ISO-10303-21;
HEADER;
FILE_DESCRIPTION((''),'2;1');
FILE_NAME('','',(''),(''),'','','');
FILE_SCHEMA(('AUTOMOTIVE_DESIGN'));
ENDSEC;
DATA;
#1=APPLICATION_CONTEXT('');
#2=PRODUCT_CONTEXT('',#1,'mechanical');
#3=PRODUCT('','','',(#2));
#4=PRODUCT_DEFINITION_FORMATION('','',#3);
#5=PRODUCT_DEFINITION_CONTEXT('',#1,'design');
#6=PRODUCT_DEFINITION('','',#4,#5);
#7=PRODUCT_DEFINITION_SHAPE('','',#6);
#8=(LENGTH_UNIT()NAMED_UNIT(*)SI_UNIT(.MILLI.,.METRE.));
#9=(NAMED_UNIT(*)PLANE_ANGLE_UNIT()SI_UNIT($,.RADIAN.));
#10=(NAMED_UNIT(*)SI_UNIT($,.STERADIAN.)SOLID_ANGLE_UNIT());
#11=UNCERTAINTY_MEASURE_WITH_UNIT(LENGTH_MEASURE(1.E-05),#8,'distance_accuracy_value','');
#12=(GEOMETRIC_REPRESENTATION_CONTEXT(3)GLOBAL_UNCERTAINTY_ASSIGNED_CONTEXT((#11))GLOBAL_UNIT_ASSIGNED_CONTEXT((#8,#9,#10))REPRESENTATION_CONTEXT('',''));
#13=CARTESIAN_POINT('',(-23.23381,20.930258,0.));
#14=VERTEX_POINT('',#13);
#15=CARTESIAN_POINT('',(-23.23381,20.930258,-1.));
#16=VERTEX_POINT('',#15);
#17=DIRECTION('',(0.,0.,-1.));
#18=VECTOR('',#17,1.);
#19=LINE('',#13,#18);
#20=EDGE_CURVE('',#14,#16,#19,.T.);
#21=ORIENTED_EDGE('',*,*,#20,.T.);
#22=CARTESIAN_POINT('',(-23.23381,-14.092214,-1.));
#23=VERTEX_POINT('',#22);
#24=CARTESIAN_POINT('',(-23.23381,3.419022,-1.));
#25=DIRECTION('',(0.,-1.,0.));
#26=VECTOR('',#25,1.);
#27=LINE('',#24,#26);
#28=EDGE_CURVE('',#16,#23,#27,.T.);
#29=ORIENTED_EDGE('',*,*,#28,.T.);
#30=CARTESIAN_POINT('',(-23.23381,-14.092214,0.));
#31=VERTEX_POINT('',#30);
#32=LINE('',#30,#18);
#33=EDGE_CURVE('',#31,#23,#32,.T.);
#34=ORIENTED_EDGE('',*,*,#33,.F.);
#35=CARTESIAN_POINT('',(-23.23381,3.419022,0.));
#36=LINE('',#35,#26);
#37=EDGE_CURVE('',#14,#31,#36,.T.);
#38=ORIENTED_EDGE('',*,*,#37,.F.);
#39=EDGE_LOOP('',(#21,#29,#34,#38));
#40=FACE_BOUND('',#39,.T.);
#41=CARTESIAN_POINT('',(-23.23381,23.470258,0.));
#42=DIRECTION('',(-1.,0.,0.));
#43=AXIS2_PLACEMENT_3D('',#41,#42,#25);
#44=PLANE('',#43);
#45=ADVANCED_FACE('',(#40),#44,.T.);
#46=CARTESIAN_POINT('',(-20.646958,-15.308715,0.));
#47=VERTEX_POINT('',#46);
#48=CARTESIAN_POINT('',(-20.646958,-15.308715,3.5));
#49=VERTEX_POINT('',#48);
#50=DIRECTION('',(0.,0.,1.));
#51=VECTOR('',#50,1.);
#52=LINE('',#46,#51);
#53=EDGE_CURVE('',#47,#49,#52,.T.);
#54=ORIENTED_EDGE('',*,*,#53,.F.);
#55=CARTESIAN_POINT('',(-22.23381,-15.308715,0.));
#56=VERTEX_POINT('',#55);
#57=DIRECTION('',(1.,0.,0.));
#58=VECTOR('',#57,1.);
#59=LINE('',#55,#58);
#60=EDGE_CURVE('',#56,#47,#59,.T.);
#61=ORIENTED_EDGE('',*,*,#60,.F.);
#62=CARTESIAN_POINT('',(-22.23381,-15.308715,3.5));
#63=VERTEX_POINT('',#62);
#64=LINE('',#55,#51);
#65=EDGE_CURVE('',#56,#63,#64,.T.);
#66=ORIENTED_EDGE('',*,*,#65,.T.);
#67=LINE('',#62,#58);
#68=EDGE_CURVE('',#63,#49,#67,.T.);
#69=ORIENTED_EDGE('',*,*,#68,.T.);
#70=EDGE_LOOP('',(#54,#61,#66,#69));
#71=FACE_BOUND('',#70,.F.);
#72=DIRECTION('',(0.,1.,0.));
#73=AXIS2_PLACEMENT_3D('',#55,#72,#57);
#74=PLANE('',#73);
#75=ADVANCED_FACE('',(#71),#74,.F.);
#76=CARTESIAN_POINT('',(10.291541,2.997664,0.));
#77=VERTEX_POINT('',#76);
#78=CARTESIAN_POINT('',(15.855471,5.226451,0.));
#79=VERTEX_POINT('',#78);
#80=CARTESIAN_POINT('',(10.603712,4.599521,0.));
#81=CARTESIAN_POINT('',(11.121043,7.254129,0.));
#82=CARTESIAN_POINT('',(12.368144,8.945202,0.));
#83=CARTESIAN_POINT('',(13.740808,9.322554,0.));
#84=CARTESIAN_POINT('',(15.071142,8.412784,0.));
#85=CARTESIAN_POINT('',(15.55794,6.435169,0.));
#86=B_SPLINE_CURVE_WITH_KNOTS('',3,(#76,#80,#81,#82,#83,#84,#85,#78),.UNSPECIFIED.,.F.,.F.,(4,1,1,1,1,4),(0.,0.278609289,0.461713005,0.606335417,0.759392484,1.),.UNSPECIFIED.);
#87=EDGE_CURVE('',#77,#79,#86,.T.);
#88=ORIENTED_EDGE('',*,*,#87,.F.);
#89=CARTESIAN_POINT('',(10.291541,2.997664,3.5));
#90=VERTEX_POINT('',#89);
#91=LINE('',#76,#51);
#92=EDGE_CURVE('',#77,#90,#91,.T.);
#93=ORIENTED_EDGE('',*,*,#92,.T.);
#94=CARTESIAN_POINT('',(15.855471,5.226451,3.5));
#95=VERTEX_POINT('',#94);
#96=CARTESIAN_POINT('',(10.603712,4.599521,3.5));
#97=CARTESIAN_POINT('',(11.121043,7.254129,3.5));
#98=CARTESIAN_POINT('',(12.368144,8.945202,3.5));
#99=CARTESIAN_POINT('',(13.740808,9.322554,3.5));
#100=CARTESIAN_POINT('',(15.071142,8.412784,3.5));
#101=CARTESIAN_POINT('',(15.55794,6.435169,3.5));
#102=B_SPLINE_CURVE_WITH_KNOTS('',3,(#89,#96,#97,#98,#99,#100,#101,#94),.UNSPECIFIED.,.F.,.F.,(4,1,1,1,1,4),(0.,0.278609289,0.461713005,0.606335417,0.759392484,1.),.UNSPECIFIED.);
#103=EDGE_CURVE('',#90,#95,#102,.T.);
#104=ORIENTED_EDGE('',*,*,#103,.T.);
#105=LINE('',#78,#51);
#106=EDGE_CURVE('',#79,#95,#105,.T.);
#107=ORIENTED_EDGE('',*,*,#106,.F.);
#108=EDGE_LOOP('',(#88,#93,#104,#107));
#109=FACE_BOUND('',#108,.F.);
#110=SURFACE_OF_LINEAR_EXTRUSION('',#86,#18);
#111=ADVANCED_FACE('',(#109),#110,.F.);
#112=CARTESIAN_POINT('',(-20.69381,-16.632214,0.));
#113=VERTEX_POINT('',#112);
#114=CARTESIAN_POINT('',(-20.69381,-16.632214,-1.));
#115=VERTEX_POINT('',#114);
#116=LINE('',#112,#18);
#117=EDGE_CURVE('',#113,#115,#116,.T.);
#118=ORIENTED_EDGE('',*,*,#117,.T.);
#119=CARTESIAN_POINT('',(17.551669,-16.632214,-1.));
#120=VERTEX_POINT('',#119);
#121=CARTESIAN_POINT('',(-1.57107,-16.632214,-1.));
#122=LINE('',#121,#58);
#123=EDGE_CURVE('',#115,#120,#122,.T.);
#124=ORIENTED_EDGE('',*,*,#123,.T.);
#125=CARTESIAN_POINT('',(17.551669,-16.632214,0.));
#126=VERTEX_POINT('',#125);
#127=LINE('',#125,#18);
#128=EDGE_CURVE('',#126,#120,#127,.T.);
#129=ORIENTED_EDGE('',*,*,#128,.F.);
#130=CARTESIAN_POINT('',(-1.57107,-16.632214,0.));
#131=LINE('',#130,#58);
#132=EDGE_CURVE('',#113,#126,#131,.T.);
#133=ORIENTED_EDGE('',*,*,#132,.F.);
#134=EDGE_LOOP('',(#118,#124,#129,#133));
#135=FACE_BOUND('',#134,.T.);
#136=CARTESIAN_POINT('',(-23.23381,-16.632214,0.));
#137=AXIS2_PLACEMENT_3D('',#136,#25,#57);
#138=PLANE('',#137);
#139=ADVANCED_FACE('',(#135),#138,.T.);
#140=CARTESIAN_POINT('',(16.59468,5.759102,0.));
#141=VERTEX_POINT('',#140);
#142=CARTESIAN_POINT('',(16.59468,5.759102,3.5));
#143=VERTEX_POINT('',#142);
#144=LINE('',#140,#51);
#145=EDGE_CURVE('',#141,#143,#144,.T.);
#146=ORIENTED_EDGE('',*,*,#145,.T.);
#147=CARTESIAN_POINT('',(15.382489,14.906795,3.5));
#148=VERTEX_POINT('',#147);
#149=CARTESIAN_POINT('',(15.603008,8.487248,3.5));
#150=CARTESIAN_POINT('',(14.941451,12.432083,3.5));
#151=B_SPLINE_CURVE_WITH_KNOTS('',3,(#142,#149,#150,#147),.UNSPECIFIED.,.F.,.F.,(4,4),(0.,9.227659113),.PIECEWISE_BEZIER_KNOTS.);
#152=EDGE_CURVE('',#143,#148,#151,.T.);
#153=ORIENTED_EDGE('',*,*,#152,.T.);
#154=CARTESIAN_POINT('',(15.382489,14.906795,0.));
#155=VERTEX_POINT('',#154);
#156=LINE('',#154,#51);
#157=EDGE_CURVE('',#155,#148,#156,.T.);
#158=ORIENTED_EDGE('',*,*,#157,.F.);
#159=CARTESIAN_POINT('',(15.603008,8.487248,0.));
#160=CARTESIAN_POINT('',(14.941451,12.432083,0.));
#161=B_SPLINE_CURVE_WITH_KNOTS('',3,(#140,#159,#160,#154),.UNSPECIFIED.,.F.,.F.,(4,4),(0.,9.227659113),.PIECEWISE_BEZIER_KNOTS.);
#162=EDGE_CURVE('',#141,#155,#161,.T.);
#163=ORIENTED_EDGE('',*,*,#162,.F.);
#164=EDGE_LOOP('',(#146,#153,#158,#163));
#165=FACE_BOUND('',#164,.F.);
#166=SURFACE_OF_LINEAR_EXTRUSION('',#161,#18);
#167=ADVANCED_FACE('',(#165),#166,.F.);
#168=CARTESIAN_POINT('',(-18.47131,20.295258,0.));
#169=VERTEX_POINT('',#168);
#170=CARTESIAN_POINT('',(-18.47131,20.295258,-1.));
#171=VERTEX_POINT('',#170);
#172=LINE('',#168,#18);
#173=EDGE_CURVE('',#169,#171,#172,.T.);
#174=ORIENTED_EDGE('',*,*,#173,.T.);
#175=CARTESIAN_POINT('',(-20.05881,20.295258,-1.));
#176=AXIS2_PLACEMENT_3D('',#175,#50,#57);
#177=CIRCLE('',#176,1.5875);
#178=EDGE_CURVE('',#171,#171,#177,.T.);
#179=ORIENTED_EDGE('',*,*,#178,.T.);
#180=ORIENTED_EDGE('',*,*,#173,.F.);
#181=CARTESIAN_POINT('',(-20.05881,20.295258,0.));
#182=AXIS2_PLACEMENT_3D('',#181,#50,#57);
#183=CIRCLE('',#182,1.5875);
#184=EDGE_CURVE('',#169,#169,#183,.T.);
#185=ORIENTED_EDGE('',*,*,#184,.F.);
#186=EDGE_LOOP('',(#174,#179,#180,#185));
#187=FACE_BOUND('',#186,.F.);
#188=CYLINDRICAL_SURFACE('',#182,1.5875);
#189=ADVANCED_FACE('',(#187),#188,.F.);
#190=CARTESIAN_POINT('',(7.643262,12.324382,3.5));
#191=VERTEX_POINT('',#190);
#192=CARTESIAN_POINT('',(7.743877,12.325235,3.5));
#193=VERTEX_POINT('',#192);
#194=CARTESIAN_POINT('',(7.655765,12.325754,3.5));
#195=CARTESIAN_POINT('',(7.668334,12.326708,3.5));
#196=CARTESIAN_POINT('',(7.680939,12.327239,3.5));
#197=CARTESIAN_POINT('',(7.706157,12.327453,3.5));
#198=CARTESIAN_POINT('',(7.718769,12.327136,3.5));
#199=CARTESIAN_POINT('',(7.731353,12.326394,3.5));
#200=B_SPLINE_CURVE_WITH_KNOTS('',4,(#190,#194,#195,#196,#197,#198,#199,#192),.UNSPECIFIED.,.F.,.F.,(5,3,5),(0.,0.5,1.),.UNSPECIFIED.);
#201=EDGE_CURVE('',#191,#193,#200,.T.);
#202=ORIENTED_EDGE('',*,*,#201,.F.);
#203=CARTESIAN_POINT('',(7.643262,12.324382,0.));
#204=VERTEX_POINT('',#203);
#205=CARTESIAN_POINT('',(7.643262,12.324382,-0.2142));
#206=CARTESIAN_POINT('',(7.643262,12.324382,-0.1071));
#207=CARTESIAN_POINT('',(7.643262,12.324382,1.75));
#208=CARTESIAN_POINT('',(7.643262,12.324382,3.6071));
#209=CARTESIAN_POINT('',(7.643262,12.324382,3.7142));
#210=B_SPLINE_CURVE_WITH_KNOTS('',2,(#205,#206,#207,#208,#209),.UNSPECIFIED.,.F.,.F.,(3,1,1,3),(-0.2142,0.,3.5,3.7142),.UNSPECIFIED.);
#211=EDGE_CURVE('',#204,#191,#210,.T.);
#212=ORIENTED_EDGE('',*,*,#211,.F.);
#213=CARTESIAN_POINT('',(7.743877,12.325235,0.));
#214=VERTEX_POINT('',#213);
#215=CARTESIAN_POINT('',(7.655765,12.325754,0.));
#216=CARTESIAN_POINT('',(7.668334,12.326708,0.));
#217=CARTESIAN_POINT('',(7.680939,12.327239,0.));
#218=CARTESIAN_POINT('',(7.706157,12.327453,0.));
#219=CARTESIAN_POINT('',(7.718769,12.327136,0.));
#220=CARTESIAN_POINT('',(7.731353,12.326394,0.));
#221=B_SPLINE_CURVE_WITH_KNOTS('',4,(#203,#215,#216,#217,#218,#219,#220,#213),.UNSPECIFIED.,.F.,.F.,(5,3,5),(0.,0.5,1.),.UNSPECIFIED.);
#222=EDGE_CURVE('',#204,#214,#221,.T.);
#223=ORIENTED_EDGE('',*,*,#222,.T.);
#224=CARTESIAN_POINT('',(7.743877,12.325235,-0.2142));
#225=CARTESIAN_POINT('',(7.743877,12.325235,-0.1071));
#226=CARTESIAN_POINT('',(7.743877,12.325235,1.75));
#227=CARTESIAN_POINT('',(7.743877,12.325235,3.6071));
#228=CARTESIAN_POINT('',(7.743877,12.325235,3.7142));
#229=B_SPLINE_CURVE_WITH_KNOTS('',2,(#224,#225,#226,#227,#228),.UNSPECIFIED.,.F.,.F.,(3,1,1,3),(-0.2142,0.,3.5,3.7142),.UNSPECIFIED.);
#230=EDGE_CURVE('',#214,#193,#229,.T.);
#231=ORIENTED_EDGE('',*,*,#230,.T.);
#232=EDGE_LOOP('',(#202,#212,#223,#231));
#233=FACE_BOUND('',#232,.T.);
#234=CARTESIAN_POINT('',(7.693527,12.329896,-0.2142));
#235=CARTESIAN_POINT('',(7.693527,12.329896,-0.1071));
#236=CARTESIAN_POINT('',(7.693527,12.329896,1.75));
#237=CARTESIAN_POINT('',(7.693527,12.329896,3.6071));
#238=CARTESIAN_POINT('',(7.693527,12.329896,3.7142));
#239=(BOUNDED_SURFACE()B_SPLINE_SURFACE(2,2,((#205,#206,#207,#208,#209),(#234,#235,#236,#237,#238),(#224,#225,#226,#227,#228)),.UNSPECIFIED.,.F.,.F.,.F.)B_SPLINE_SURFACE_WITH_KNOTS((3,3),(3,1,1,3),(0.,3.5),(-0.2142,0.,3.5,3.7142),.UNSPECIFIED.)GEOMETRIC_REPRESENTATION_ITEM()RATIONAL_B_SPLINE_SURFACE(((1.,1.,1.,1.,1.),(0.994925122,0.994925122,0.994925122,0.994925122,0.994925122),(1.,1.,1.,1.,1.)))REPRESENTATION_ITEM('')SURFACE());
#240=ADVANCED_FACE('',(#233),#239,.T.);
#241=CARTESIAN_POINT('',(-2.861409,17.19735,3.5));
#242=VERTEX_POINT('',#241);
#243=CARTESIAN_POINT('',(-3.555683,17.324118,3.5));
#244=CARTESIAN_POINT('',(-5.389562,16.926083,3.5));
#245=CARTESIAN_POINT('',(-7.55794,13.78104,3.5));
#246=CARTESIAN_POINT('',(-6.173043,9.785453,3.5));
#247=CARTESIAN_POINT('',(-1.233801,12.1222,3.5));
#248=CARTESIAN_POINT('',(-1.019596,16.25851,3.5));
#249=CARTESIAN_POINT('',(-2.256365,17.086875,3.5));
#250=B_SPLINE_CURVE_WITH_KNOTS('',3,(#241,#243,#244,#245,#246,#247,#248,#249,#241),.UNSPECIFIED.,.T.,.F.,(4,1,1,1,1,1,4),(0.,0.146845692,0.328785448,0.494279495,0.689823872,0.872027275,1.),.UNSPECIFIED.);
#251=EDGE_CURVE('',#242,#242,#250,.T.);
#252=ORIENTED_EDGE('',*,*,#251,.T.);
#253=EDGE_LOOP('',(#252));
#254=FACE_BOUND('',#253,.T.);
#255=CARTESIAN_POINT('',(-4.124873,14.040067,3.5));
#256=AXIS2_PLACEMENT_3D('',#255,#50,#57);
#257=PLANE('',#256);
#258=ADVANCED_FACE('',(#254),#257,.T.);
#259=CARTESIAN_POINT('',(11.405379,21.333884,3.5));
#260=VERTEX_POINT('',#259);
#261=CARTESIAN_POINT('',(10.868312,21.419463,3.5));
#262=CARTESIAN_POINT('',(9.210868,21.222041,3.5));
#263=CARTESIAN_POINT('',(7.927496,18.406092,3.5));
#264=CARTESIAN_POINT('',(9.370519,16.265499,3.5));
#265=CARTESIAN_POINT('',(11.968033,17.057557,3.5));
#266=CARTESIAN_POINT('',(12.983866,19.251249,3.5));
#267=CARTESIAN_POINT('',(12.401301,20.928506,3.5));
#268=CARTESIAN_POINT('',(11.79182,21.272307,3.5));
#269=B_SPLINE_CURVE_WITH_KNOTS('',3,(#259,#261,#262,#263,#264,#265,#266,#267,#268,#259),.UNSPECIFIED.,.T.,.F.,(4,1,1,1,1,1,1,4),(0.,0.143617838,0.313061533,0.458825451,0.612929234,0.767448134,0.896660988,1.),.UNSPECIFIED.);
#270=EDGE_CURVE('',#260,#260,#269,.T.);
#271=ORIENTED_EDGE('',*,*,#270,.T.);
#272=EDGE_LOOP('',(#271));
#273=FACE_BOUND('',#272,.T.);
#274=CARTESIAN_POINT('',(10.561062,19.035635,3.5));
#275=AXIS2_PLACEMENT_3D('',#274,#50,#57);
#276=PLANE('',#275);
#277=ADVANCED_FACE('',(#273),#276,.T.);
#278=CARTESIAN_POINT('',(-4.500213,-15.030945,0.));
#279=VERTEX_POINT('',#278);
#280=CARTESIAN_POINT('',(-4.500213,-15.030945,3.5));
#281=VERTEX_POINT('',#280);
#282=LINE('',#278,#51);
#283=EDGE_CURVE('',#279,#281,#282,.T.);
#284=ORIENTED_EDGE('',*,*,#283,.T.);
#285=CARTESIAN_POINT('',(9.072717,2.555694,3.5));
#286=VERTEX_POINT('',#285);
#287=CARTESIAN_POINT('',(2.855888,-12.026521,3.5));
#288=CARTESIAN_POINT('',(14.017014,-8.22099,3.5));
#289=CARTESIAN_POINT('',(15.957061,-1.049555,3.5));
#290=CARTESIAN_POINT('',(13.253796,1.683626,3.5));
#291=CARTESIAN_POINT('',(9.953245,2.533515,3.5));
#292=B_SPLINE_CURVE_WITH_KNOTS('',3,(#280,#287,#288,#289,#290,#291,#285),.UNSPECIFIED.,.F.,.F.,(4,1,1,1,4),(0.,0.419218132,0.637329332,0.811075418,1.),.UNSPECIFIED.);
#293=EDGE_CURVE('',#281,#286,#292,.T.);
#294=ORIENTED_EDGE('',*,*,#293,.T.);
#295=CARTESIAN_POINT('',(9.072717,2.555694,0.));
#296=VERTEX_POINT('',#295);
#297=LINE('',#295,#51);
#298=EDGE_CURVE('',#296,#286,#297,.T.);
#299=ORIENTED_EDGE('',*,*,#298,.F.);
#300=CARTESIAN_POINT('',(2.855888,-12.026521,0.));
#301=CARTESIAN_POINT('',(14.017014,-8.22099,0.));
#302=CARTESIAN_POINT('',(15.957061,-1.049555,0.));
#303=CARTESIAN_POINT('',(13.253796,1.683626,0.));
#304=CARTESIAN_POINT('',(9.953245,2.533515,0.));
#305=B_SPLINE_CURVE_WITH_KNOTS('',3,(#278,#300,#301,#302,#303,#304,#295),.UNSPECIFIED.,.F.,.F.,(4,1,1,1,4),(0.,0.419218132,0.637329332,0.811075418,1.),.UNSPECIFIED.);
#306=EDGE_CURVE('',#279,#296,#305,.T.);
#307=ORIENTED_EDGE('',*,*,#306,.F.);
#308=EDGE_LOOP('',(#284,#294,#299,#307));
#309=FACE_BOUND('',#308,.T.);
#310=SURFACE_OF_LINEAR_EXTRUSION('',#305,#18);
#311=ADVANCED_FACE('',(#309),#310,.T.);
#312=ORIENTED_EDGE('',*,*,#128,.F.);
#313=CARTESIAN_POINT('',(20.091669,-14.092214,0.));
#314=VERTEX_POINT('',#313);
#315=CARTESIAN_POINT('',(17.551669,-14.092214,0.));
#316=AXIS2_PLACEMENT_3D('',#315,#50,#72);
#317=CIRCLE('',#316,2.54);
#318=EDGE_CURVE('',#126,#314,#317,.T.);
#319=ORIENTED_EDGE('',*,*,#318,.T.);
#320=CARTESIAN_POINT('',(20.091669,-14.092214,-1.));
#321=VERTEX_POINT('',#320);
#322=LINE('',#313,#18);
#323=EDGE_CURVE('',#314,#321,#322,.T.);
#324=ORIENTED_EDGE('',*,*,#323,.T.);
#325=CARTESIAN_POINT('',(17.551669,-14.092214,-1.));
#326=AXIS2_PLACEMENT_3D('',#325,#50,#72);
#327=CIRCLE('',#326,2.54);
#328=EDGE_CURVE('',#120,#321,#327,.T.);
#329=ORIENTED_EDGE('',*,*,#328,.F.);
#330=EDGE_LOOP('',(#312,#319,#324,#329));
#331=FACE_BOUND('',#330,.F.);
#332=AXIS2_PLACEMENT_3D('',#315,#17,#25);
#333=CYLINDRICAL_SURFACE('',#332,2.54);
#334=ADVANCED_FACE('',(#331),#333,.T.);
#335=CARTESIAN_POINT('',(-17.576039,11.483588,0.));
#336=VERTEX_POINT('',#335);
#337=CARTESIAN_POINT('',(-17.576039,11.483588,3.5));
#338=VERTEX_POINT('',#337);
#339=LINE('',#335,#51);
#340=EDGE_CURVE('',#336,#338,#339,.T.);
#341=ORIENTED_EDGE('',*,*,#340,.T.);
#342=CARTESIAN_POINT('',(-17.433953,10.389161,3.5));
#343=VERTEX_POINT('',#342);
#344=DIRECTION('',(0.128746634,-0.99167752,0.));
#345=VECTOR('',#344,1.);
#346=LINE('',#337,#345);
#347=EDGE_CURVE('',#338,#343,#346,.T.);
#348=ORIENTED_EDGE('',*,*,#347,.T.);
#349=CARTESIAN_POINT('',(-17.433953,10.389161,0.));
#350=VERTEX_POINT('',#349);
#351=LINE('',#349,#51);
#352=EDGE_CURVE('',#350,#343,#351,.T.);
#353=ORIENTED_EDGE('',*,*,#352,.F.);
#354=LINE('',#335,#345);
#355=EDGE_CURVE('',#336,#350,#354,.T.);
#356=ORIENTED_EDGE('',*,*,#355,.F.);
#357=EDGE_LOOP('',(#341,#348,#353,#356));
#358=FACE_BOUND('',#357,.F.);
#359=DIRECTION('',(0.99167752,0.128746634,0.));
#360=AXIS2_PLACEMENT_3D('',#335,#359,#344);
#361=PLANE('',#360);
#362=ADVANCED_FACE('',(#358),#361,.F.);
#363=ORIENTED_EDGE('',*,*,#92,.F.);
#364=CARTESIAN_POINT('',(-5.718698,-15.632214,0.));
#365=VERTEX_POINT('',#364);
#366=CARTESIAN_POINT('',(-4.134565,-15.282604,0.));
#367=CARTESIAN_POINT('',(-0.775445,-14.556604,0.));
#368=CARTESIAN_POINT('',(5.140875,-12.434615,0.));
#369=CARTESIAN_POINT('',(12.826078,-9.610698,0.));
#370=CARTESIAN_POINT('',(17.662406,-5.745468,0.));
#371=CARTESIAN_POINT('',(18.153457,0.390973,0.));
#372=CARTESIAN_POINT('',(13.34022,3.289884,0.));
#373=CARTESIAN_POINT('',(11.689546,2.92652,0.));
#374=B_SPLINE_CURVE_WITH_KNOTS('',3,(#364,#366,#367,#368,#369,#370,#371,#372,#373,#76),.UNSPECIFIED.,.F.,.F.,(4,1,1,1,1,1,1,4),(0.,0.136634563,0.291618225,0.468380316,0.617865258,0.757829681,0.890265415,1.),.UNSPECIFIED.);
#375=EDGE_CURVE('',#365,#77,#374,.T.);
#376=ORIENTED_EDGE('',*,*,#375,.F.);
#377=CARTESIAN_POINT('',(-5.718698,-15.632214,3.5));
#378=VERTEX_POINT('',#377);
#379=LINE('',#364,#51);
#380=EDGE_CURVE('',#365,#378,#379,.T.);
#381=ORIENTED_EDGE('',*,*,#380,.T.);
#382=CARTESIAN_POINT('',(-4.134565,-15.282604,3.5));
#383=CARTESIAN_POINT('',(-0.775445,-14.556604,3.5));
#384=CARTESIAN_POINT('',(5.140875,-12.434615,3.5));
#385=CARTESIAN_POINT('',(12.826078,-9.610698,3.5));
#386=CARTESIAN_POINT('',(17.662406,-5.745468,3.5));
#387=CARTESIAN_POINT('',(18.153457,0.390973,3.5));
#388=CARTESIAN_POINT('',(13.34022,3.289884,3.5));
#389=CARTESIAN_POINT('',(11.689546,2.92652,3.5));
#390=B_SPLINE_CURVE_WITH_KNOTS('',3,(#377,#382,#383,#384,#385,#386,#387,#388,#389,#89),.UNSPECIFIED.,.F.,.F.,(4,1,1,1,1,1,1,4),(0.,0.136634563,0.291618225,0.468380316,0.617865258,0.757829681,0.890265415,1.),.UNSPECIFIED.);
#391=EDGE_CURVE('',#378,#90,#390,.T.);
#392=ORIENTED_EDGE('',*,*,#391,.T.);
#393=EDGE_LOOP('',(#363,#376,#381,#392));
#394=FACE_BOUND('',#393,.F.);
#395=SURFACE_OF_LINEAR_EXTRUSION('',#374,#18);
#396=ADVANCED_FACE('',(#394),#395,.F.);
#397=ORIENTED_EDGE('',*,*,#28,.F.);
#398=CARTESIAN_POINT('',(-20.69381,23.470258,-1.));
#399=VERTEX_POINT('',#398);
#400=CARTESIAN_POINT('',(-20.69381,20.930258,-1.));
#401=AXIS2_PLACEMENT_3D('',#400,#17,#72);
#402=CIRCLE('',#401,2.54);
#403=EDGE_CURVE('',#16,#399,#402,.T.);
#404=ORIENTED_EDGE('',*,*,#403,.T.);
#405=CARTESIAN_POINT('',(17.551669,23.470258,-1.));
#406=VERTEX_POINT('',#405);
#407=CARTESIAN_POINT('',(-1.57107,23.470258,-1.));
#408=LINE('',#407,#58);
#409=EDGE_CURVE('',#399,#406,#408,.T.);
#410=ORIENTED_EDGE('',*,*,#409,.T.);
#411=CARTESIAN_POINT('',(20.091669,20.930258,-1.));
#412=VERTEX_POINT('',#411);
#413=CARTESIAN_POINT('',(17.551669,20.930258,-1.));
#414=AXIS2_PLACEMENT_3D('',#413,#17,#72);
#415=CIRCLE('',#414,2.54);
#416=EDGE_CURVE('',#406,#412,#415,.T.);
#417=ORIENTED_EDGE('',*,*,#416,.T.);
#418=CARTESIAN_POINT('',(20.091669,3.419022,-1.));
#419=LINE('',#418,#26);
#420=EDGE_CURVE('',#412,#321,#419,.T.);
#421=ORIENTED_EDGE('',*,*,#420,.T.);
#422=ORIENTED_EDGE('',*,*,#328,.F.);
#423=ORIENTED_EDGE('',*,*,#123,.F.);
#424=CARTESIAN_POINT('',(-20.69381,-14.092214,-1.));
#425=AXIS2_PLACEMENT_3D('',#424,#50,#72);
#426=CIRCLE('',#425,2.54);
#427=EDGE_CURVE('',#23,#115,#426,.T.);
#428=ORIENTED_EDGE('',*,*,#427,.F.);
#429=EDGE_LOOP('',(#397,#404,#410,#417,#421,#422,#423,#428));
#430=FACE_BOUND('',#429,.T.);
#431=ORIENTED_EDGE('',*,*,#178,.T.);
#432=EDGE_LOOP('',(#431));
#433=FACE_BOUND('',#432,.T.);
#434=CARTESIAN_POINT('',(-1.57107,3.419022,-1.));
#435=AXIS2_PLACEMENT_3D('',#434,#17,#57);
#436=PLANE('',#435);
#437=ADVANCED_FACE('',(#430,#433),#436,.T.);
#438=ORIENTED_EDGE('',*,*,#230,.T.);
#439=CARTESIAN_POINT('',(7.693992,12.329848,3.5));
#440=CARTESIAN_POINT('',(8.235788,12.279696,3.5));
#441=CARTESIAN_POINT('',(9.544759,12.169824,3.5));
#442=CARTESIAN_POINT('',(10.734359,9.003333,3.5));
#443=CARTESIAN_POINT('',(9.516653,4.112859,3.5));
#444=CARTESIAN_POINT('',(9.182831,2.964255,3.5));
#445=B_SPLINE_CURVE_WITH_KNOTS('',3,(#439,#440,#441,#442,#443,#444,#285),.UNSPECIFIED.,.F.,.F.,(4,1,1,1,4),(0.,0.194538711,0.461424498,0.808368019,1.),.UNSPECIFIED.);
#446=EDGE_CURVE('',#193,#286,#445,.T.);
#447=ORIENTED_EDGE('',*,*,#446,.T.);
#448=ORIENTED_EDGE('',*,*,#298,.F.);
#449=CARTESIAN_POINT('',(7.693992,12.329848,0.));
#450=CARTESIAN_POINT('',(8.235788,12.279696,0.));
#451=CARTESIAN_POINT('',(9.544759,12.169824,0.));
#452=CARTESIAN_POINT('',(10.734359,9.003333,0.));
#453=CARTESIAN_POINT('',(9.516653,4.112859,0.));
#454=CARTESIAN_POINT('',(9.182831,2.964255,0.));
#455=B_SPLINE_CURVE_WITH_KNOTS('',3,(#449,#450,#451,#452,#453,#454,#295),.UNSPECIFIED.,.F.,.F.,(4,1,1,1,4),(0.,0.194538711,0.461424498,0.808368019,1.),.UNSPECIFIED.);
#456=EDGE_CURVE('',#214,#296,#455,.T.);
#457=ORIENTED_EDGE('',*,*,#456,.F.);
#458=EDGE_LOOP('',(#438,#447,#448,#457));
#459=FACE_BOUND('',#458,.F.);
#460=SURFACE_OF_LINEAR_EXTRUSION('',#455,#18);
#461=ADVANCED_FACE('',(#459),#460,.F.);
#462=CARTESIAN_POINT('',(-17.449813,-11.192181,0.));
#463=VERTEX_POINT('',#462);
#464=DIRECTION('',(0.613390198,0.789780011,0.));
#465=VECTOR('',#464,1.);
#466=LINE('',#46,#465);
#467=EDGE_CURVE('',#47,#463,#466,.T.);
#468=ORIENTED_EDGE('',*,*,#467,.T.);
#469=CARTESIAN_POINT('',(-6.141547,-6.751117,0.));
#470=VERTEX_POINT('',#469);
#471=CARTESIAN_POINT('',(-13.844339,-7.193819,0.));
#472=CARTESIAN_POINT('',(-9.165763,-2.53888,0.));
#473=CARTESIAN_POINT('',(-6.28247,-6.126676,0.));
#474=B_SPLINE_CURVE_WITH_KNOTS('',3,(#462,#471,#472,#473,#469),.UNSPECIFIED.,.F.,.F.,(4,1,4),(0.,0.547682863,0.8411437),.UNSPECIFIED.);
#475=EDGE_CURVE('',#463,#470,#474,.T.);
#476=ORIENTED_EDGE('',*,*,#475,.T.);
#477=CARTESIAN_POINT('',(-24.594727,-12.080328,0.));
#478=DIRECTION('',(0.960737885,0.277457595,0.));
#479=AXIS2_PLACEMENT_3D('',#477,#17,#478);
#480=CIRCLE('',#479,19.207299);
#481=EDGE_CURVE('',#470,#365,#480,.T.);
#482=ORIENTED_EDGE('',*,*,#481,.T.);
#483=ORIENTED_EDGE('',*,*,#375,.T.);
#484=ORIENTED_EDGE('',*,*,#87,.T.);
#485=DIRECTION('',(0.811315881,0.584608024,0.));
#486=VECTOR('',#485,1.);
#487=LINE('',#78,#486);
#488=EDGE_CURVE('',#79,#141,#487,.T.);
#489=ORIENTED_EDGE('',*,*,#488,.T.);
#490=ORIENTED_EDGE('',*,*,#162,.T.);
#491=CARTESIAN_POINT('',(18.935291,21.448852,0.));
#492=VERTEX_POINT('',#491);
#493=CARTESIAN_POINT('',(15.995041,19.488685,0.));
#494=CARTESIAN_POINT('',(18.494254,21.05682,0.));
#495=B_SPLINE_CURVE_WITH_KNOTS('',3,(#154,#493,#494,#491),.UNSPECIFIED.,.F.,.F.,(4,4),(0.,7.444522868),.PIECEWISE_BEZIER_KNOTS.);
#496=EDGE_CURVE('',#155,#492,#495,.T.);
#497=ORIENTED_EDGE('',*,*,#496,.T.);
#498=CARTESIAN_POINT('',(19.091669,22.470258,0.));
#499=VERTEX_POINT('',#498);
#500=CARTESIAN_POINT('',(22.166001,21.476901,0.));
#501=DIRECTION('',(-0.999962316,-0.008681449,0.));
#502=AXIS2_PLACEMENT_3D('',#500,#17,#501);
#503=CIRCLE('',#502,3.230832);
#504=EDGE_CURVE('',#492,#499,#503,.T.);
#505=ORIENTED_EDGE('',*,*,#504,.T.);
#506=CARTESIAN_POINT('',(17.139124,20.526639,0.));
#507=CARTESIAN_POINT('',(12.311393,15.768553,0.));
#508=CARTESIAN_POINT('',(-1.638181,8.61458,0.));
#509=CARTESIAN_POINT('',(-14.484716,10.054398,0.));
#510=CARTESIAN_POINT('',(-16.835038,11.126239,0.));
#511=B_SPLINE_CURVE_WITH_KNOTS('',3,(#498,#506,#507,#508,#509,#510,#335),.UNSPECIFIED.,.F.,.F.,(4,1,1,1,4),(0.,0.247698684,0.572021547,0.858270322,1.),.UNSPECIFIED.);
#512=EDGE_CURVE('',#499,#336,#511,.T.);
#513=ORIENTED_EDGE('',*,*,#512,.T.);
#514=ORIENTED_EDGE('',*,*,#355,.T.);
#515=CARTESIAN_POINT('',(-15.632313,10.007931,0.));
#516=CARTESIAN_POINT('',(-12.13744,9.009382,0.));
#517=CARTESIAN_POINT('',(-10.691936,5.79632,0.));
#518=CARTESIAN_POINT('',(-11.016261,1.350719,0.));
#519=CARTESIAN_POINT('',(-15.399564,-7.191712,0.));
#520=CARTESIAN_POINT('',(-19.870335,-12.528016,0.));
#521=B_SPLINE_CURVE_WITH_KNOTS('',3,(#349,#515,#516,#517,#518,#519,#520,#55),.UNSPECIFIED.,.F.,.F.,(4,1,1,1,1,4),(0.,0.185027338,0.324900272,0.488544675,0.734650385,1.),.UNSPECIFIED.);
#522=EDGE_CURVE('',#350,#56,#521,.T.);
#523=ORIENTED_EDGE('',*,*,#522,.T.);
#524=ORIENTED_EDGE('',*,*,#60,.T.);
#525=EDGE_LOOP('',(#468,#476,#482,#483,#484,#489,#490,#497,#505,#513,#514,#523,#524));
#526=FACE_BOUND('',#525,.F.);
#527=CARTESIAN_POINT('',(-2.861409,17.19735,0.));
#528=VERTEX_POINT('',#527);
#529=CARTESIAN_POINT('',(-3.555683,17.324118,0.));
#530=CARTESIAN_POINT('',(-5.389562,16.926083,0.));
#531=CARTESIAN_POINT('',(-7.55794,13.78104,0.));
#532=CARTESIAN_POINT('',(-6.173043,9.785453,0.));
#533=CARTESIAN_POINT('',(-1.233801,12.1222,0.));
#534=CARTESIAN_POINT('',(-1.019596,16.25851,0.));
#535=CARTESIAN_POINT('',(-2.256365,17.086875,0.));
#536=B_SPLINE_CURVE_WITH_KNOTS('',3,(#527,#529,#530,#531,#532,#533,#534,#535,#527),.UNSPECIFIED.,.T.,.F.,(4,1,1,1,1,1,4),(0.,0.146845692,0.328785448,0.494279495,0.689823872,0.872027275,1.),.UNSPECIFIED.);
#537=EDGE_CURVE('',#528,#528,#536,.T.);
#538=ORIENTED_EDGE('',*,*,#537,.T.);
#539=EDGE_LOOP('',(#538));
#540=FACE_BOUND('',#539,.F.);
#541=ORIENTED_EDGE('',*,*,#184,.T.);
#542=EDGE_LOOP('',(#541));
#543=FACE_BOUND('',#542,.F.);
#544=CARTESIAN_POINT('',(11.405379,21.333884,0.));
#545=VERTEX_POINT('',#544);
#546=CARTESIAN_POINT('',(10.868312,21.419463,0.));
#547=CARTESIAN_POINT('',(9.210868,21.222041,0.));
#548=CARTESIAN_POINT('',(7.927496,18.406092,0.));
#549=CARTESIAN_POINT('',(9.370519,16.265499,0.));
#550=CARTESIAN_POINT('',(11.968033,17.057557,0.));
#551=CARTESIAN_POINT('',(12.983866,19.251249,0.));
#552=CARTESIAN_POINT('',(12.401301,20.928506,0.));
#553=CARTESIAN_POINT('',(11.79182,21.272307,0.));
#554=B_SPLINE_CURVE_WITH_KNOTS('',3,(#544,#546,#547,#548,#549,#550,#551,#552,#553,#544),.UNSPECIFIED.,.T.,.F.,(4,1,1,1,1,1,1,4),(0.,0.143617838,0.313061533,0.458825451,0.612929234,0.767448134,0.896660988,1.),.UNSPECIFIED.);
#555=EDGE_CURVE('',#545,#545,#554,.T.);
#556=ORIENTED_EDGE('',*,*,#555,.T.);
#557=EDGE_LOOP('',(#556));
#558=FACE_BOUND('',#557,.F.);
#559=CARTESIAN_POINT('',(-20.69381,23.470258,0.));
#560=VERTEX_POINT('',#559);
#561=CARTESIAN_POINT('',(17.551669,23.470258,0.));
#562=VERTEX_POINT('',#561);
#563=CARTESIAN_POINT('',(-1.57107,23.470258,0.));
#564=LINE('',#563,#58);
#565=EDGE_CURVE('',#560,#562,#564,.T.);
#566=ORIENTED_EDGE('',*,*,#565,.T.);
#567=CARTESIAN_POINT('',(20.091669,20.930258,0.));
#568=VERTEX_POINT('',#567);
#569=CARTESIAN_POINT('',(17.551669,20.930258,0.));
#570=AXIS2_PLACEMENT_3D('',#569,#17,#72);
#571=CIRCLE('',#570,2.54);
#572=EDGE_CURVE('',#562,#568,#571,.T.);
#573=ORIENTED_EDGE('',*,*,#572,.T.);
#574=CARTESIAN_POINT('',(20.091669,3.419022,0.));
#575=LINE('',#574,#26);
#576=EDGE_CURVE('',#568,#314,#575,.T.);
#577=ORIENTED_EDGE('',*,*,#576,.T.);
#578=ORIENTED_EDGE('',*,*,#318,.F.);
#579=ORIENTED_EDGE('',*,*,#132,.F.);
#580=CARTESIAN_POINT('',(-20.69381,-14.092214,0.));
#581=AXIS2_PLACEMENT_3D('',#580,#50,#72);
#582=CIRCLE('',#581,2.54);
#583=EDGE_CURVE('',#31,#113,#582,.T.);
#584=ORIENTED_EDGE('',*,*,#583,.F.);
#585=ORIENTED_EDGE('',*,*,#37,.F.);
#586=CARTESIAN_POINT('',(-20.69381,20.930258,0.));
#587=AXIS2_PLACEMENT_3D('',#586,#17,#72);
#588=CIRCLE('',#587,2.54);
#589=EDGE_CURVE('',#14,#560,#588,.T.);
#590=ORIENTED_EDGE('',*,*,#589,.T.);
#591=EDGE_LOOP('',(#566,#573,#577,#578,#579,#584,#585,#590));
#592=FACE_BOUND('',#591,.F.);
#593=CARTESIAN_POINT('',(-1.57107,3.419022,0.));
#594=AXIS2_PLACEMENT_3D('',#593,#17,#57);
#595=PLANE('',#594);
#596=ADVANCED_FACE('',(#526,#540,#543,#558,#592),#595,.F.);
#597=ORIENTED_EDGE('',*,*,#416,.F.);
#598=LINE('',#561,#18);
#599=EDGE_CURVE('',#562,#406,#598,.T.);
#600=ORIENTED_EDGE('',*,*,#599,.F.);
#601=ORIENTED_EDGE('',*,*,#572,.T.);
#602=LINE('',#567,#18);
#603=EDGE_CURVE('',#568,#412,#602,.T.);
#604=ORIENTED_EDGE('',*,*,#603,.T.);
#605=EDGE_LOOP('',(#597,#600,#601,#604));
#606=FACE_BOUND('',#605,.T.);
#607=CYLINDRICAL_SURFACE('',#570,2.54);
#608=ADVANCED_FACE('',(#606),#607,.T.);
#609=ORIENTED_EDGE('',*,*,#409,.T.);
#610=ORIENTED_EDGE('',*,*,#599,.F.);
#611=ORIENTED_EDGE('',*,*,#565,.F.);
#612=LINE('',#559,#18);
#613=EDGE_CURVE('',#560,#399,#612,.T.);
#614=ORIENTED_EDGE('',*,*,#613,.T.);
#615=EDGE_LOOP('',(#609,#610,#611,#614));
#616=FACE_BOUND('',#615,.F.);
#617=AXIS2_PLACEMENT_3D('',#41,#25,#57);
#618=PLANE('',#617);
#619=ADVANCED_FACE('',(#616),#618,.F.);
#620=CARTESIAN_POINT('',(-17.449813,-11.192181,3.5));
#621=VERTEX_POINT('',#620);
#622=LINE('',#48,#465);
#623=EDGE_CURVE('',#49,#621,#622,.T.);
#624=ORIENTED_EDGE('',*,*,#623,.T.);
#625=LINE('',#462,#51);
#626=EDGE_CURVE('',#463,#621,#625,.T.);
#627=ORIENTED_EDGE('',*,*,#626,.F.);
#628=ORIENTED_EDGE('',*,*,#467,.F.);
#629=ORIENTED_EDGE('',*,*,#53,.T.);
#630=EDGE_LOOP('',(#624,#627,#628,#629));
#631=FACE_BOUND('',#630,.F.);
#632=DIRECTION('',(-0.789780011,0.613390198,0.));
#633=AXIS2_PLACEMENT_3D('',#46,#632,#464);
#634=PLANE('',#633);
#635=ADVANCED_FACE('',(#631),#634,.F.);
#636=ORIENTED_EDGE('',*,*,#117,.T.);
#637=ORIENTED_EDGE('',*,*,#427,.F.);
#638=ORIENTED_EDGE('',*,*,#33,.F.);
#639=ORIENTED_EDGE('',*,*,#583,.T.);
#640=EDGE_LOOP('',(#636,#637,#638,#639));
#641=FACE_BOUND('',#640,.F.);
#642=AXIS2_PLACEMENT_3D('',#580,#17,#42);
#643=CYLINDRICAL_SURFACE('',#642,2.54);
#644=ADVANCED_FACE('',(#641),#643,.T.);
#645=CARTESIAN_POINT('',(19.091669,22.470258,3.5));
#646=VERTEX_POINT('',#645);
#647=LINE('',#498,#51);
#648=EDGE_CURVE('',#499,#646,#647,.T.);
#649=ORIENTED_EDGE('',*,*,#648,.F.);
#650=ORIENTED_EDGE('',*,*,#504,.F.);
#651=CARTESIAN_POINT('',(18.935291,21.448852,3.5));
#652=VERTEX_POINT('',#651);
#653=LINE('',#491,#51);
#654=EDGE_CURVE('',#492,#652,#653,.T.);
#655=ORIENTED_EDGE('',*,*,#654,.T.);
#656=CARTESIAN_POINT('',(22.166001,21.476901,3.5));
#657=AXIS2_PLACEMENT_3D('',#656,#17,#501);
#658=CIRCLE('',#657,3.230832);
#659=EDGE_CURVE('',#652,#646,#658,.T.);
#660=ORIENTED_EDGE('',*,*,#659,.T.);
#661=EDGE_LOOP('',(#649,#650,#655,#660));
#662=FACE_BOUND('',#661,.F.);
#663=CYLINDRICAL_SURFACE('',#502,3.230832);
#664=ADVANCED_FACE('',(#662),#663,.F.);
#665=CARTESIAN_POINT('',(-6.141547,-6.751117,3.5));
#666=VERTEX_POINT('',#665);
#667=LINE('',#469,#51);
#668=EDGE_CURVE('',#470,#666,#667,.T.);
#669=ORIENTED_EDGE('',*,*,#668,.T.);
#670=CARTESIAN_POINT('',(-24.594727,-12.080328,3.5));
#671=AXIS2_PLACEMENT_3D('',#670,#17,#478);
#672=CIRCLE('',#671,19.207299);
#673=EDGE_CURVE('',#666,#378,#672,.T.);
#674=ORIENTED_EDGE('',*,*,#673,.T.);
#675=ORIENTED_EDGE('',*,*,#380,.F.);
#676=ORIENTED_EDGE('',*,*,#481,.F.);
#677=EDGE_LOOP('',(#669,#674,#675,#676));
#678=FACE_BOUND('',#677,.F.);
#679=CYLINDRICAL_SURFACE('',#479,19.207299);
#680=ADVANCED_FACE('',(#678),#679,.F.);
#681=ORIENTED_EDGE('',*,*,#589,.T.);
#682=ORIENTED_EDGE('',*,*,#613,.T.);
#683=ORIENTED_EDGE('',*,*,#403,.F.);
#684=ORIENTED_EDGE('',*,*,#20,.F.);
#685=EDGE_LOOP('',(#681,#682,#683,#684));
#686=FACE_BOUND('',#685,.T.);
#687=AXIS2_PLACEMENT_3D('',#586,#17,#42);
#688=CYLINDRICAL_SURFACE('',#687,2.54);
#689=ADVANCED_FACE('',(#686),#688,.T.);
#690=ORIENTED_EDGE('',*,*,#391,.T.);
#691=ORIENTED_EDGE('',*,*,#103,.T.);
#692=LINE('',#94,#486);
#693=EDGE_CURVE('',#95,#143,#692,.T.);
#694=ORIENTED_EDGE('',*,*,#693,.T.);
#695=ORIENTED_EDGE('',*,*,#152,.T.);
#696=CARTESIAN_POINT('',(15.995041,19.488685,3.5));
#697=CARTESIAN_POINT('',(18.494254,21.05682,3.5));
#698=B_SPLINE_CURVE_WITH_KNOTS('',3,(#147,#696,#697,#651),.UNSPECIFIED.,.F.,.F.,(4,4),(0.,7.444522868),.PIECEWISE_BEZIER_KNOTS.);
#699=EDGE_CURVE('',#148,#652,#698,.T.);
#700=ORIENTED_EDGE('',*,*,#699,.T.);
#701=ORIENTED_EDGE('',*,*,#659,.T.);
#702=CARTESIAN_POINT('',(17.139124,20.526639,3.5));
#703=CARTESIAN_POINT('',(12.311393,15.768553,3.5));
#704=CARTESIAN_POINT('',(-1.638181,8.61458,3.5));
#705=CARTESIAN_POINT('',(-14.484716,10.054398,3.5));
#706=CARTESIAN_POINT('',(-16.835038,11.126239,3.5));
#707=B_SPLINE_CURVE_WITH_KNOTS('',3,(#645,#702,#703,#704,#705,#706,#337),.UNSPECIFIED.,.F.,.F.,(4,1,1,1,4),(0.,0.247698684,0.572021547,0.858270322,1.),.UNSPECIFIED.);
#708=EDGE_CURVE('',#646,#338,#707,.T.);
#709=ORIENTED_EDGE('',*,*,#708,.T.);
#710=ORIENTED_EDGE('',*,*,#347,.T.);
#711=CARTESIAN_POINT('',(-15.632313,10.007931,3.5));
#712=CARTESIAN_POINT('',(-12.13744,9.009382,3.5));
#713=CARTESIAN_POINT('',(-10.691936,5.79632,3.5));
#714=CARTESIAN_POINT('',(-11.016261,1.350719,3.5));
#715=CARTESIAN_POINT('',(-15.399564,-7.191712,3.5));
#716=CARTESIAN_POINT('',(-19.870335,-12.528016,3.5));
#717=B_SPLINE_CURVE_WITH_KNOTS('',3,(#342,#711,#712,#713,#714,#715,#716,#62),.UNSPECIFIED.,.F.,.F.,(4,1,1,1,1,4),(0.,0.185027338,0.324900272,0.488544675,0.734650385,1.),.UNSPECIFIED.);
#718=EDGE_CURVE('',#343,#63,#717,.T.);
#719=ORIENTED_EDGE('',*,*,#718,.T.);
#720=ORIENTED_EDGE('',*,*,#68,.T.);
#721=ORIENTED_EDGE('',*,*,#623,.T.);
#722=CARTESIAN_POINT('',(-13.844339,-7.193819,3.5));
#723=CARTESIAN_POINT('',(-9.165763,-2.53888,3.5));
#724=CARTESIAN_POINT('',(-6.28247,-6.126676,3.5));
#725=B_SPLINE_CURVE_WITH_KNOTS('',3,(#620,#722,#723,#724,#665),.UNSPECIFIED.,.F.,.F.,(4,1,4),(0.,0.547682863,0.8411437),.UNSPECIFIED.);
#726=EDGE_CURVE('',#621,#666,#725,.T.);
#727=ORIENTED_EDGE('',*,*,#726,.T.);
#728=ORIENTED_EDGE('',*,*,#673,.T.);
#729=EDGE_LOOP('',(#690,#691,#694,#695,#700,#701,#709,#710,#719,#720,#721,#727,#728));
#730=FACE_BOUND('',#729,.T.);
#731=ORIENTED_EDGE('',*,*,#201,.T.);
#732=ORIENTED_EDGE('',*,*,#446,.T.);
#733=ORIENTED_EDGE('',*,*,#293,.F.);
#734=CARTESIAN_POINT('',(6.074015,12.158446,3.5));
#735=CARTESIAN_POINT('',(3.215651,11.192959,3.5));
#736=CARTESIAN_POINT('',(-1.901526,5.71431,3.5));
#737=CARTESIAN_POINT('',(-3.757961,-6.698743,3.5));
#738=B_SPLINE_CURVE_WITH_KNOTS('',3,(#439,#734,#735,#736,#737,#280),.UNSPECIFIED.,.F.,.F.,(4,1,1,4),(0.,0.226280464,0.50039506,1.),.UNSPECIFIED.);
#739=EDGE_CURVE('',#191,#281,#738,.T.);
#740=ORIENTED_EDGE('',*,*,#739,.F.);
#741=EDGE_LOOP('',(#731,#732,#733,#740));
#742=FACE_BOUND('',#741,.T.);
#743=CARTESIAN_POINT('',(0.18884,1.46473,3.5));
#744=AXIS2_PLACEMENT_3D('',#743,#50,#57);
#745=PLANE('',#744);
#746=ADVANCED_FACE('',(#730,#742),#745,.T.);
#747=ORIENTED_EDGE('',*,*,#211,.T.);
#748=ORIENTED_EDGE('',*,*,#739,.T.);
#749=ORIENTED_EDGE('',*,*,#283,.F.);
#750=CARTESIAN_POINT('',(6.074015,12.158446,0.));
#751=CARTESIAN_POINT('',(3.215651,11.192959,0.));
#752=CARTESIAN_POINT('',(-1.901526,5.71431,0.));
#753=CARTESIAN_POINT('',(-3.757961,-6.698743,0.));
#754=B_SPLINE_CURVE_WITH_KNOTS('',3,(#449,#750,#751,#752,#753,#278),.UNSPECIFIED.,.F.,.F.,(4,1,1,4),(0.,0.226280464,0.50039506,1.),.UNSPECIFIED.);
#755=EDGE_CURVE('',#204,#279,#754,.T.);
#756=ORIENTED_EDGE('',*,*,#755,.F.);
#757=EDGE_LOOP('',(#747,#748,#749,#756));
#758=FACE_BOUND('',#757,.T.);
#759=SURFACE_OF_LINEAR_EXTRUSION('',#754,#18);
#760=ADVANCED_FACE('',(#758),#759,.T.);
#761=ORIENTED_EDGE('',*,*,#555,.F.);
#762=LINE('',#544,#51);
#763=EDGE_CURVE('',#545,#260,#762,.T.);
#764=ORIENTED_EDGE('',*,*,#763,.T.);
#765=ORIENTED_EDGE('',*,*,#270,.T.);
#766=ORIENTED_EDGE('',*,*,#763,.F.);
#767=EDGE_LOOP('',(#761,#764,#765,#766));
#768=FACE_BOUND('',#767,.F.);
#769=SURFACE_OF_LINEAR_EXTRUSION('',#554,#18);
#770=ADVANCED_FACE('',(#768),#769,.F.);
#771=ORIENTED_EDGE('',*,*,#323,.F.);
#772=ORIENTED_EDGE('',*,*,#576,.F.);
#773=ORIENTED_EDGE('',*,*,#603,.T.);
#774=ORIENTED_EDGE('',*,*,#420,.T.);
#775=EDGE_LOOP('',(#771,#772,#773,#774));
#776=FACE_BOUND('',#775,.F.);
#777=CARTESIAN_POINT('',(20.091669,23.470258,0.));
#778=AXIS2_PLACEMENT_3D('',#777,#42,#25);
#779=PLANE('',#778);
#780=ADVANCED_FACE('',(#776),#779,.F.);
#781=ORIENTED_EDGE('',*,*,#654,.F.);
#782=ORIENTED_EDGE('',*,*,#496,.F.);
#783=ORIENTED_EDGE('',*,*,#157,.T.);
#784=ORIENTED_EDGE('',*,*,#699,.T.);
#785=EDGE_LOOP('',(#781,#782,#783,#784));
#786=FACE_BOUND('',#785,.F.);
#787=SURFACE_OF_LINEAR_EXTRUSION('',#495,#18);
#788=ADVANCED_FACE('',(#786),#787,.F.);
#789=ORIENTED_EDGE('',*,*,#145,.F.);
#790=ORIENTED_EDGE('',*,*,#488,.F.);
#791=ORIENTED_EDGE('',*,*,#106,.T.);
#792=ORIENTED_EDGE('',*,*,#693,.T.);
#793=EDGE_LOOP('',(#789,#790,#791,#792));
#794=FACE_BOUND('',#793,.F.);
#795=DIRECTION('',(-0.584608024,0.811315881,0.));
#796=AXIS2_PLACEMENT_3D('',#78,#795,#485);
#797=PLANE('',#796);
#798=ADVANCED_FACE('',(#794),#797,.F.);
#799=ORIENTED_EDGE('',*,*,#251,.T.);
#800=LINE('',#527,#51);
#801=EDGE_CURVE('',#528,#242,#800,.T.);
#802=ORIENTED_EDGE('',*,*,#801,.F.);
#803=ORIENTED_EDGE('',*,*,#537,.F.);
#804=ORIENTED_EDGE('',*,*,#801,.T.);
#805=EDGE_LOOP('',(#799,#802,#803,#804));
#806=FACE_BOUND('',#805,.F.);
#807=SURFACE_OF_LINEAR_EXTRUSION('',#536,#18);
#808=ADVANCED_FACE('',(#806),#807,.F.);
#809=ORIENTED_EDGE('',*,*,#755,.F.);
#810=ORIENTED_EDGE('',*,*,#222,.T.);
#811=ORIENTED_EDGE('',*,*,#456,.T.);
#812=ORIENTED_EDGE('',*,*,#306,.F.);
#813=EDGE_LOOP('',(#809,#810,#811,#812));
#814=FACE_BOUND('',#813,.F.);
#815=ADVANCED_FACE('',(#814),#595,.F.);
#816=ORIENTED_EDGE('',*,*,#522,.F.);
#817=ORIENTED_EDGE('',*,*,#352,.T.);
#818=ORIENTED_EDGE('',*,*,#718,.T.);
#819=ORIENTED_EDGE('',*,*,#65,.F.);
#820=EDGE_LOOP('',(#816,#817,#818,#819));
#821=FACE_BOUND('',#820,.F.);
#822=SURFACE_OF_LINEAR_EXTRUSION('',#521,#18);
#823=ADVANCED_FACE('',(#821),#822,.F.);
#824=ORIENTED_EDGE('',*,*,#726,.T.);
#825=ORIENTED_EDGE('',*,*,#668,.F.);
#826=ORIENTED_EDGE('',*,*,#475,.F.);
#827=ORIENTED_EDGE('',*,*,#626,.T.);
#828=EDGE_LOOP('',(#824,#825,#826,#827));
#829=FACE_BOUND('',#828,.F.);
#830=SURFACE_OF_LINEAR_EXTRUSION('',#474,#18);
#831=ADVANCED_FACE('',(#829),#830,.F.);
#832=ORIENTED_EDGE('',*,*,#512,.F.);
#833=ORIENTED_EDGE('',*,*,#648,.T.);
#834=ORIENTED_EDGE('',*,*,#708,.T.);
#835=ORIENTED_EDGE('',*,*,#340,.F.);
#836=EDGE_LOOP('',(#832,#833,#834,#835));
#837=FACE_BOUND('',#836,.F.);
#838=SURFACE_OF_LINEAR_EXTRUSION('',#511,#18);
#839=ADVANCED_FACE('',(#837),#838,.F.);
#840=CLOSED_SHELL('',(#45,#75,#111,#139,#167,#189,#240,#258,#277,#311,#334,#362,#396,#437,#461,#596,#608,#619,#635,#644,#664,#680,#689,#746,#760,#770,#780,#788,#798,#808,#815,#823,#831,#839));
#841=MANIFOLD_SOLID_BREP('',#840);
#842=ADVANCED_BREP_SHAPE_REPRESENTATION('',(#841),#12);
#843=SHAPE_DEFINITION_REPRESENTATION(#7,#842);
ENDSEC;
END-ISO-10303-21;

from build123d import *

# Parameters (mm, degrees)
F2_DEPTH = 3.5
F3_R     = 0.5
F4_W     = 43.3254797459
F4_H     = 40.102472201
F5_DEPTH = 1
F6_R     = 2.54
F7_R     = 1.5875
F8_DEPTH = 1.001


with BuildPart() as f2:
    # F1 (on Top) → F2 (new body)
    with BuildSketch(Plane.XY):
        with BuildLine():
            add(Edge.make_bspline(
                [(-17.4339525402, 10.3891612962), (-15.6323134553, 10.0079308799), (-12.1374402199, 9.0093816519), (-10.6919359478, 5.7963203672), (-11.0162612085, 1.3507189636), (-15.3995640473, -7.1917124281), (-19.8703347697, -12.5280161658), (-22.2338102758, -15.3087150569)],
                knots=[0, 0, 0, 0, 0.185027338, 0.324900272, 0.4885446752, 0.7346503855, 1, 1, 1, 1], degree=3))
            Line((-22.2338102758, -15.3087150569), (-20.6469583892, -15.3087150569))
            Line((-20.6469583892, -15.3087150569), (-17.4498129636, -11.1921811476))
            add(Edge.make_bspline(
                [(-17.4498129636, -11.1921811476), (-13.8443388928, -7.1938189637), (-9.1657634903, -2.5388799933), (-6.2824699242, -6.1266756704), (-6.141546648, -6.7511168309)],
                knots=[0, 0, 0, 0, 0.5476828629, 0.8411437, 0.8411437, 0.8411437, 0.8411437], degree=3))
            ThreePointArc((-6.141546648, -6.7511168309), (-5.409161203, -11.1668613275), (-5.7186982594, -15.6322140247))
            add(Edge.make_bspline(
                [(-5.7186982594, -15.6322140247), (-4.1345648834, -15.2826036519), (-0.7754448436, -14.5566042515), (5.1408747925, -12.434614726), (12.8260776584, -9.6106980275), (17.6624063976, -5.7454684251), (18.1534572055, 0.3909734442), (13.3402200524, 3.2898837323), (11.6895463163, 2.9265196946), (10.2915409952, 2.9976635706)],
                knots=[0, 0, 0, 0, 0.1366345631, 0.2916182247, 0.4683803158, 0.6178652577, 0.7578296815, 0.8902654147, 1, 1, 1, 1], degree=3))
            add(Edge.make_bspline(
                [(10.2915409952, 2.9976635706), (10.6037116769, 4.5995212016), (11.121042825, 7.2541293884), (12.3681444753, 8.9452024325), (13.7408077766, 9.3225541685), (15.0711420261, 8.4127840248), (15.5579400578, 6.4351685963), (15.8554706722, 5.2264514379)],
                knots=[0, 0, 0, 0, 0.2786092894, 0.4617130052, 0.6063354175, 0.7593924842, 1, 1, 1, 1], degree=3))
            Line((15.8554706722, 5.2264514379), (16.5946800262, 5.7591018267))
            add(Edge.make_bspline(
                [(16.5946800262, 5.7591018267), (15.6030077487, 8.4872478619), (14.9414511397, 12.4320834875), (15.3824891895, 14.9067947641)],
                knots=[0, 0, 0, 0, 9.2276591128, 9.2276591128, 9.2276591128, 9.2276591128], degree=3))
            add(Edge.make_bspline(
                [(15.3824891895, 14.9067947641), (15.9950405359, 19.488684833), (18.4942539781, 21.0568197072), (18.9352910966, 21.4488524944)],
                knots=[0, 0, 0, 0, 7.4445228683, 7.4445228683, 7.4445228683, 7.4445228683], degree=3))
            ThreePointArc((18.9352910966, 21.4488524944), (18.9723816979, 21.9658475756), (19.0916694701, 22.4702581763))
            add(Edge.make_bspline(
                [(19.0916694701, 22.4702581763), (17.1391241227, 20.5266388949), (12.3113934749, 15.7685533475), (-1.6381812303, 8.6145801304), (-14.484715583, 10.0543976299), (-16.8350384415, 11.1262385256), (-17.5760388374, 11.4835882559)],
                knots=[0, 0, 0, 0, 0.2476986843, 0.5720215474, 0.8582703215, 1, 1, 1, 1], degree=3))
            Line((-17.5760388374, 11.4835882559), (-17.4339525402, 10.3891612962))
        make_face()
        with BuildLine():
            add(Edge.make_bspline(
                [(7.6939919963, 12.3298484832), (6.0740151322, 12.1584455461), (3.2156512661, 11.1929585752), (-1.9015256855, 5.7143098104), (-3.7579613272, -6.6987425089), (-4.5002130792, -15.0309447199)],
                knots=[0, 0, 0, 0, 0.2262804636, 0.5003950599, 1, 1, 1, 1], degree=3))
            add(Edge.make_bspline(
                [(7.6939919963, 12.3298484832), (8.2357878891, 12.2796959469), (9.5447593938, 12.1698241039), (10.7343592641, 9.0033330286), (9.5166533517, 4.1128592846), (9.1828305335, 2.9642551286), (9.0727172792, 2.5556944311)],
                knots=[0, 0, 0, 0, 0.1945387115, 0.4614244984, 0.8083680191, 1, 1, 1, 1], degree=3))
            add(Edge.make_bspline(
                [(-4.5002130792, -15.0309447199), (2.8558875463, -12.0265206408), (14.0170136994, -8.2209898174), (15.9570611629, -1.0495553897), (13.2537960098, 1.6836264039), (9.9532447133, 2.5335151768), (9.0727172792, 2.5556944311)],
                knots=[0, 0, 0, 0, 0.4192181319, 0.637329332, 0.8110754178, 1, 1, 1, 1], degree=3))
        make_face(mode=Mode.SUBTRACT)
    extrude(amount=F2_DEPTH)

    # F3
    f3_edges = [f2.edges().sort_by_distance(p)[0] for p in [
        (-6.141547, -6.751117, 1.75),
        (-17.449813, -11.192181, 1.75),
        (15.382489, 14.906795, 1.75),
        (7.693992, 12.329848, 1.75),
    ]]
    fillet(f3_edges, radius=F3_R)



with BuildPart() as f2b:
    # F1 (on Top) → F2, piece 2 (new body)
    with BuildSketch(Plane.XY):
        with BuildLine():
            add(Edge.make_bspline(
                [(-2.8614087496, 17.1973500401), (-3.5556827087, 17.3241178573), (-5.389562243, 16.9260826716), (-7.5579403377, 13.7810404975), (-6.1730432105, 9.7854532262), (-1.2338013156, 12.1222002182), (-1.0195955001, 16.2585104895), (-2.2563645744, 17.0868747322), (-2.8614087496, 17.1973500401)],
                knots=[0, 0, 0, 0, 0.1468456921, 0.3287854481, 0.4942794947, 0.6898238724, 0.8720272747, 1, 1, 1, 1], degree=3))
        make_face()
    extrude(amount=F2_DEPTH)


with BuildPart() as f2c:
    # F1 (on Top) → F2, piece 3 (new body)
    with BuildSketch(Plane.XY):
        with BuildLine():
            add(Edge.make_bspline(
                [(11.4053785801, 21.3338844478), (10.8683124765, 21.4194626671), (9.2108684467, 21.2220414162), (7.9274955836, 18.4060915248), (9.3705188647, 16.265499475), (11.968032939, 17.0575573748), (12.9838664362, 19.2512490076), (12.4013006367, 20.9285062202), (11.7918199931, 21.2723073575), (11.4053785801, 21.3338844478)],
                knots=[0, 0, 0, 0, 0.1436178381, 0.3130615334, 0.4588254509, 0.6129292342, 0.7674481338, 0.8966609884, 1, 1, 1, 1], degree=3))
        make_face()
    extrude(amount=F2_DEPTH)


with BuildPart() as f2_1:
    add(f2.part)

    add(f2b.part)  # F5 merges F2b

    add(f2c.part)  # F5 merges F2c
    # F4 (on face) → F5 (join)
    with BuildSketch(Plane(origin=(0, 0, 0), x_dir=(1, 0, 0), z_dir=(0, 0, -1))):
        with Locations((-1.5710704029, -3.4190220758)):
            Rectangle(F4_W, F4_H)
    extrude(amount=F5_DEPTH)

    # F6
    f6_edges = [f2_1.edges().sort_by_distance(p)[0] for p in [
        (20.091669, -16.632214, -0.5),
        (20.091669, 23.470258, -0.5),
        (-23.23381, -16.632214, -0.5),
        (-23.23381, 23.470258, -0.5),
    ]]
    fillet(f6_edges, radius=F6_R)

    # F7 (on face) → F8 (cut, through all)
    with BuildSketch(Plane.XY):
        with Locations((-20.0588102758, 20.2952581763)):
            Circle(F7_R)
    extrude(amount=-F8_DEPTH, mode=Mode.SUBTRACT)


solid = f2_1.part
